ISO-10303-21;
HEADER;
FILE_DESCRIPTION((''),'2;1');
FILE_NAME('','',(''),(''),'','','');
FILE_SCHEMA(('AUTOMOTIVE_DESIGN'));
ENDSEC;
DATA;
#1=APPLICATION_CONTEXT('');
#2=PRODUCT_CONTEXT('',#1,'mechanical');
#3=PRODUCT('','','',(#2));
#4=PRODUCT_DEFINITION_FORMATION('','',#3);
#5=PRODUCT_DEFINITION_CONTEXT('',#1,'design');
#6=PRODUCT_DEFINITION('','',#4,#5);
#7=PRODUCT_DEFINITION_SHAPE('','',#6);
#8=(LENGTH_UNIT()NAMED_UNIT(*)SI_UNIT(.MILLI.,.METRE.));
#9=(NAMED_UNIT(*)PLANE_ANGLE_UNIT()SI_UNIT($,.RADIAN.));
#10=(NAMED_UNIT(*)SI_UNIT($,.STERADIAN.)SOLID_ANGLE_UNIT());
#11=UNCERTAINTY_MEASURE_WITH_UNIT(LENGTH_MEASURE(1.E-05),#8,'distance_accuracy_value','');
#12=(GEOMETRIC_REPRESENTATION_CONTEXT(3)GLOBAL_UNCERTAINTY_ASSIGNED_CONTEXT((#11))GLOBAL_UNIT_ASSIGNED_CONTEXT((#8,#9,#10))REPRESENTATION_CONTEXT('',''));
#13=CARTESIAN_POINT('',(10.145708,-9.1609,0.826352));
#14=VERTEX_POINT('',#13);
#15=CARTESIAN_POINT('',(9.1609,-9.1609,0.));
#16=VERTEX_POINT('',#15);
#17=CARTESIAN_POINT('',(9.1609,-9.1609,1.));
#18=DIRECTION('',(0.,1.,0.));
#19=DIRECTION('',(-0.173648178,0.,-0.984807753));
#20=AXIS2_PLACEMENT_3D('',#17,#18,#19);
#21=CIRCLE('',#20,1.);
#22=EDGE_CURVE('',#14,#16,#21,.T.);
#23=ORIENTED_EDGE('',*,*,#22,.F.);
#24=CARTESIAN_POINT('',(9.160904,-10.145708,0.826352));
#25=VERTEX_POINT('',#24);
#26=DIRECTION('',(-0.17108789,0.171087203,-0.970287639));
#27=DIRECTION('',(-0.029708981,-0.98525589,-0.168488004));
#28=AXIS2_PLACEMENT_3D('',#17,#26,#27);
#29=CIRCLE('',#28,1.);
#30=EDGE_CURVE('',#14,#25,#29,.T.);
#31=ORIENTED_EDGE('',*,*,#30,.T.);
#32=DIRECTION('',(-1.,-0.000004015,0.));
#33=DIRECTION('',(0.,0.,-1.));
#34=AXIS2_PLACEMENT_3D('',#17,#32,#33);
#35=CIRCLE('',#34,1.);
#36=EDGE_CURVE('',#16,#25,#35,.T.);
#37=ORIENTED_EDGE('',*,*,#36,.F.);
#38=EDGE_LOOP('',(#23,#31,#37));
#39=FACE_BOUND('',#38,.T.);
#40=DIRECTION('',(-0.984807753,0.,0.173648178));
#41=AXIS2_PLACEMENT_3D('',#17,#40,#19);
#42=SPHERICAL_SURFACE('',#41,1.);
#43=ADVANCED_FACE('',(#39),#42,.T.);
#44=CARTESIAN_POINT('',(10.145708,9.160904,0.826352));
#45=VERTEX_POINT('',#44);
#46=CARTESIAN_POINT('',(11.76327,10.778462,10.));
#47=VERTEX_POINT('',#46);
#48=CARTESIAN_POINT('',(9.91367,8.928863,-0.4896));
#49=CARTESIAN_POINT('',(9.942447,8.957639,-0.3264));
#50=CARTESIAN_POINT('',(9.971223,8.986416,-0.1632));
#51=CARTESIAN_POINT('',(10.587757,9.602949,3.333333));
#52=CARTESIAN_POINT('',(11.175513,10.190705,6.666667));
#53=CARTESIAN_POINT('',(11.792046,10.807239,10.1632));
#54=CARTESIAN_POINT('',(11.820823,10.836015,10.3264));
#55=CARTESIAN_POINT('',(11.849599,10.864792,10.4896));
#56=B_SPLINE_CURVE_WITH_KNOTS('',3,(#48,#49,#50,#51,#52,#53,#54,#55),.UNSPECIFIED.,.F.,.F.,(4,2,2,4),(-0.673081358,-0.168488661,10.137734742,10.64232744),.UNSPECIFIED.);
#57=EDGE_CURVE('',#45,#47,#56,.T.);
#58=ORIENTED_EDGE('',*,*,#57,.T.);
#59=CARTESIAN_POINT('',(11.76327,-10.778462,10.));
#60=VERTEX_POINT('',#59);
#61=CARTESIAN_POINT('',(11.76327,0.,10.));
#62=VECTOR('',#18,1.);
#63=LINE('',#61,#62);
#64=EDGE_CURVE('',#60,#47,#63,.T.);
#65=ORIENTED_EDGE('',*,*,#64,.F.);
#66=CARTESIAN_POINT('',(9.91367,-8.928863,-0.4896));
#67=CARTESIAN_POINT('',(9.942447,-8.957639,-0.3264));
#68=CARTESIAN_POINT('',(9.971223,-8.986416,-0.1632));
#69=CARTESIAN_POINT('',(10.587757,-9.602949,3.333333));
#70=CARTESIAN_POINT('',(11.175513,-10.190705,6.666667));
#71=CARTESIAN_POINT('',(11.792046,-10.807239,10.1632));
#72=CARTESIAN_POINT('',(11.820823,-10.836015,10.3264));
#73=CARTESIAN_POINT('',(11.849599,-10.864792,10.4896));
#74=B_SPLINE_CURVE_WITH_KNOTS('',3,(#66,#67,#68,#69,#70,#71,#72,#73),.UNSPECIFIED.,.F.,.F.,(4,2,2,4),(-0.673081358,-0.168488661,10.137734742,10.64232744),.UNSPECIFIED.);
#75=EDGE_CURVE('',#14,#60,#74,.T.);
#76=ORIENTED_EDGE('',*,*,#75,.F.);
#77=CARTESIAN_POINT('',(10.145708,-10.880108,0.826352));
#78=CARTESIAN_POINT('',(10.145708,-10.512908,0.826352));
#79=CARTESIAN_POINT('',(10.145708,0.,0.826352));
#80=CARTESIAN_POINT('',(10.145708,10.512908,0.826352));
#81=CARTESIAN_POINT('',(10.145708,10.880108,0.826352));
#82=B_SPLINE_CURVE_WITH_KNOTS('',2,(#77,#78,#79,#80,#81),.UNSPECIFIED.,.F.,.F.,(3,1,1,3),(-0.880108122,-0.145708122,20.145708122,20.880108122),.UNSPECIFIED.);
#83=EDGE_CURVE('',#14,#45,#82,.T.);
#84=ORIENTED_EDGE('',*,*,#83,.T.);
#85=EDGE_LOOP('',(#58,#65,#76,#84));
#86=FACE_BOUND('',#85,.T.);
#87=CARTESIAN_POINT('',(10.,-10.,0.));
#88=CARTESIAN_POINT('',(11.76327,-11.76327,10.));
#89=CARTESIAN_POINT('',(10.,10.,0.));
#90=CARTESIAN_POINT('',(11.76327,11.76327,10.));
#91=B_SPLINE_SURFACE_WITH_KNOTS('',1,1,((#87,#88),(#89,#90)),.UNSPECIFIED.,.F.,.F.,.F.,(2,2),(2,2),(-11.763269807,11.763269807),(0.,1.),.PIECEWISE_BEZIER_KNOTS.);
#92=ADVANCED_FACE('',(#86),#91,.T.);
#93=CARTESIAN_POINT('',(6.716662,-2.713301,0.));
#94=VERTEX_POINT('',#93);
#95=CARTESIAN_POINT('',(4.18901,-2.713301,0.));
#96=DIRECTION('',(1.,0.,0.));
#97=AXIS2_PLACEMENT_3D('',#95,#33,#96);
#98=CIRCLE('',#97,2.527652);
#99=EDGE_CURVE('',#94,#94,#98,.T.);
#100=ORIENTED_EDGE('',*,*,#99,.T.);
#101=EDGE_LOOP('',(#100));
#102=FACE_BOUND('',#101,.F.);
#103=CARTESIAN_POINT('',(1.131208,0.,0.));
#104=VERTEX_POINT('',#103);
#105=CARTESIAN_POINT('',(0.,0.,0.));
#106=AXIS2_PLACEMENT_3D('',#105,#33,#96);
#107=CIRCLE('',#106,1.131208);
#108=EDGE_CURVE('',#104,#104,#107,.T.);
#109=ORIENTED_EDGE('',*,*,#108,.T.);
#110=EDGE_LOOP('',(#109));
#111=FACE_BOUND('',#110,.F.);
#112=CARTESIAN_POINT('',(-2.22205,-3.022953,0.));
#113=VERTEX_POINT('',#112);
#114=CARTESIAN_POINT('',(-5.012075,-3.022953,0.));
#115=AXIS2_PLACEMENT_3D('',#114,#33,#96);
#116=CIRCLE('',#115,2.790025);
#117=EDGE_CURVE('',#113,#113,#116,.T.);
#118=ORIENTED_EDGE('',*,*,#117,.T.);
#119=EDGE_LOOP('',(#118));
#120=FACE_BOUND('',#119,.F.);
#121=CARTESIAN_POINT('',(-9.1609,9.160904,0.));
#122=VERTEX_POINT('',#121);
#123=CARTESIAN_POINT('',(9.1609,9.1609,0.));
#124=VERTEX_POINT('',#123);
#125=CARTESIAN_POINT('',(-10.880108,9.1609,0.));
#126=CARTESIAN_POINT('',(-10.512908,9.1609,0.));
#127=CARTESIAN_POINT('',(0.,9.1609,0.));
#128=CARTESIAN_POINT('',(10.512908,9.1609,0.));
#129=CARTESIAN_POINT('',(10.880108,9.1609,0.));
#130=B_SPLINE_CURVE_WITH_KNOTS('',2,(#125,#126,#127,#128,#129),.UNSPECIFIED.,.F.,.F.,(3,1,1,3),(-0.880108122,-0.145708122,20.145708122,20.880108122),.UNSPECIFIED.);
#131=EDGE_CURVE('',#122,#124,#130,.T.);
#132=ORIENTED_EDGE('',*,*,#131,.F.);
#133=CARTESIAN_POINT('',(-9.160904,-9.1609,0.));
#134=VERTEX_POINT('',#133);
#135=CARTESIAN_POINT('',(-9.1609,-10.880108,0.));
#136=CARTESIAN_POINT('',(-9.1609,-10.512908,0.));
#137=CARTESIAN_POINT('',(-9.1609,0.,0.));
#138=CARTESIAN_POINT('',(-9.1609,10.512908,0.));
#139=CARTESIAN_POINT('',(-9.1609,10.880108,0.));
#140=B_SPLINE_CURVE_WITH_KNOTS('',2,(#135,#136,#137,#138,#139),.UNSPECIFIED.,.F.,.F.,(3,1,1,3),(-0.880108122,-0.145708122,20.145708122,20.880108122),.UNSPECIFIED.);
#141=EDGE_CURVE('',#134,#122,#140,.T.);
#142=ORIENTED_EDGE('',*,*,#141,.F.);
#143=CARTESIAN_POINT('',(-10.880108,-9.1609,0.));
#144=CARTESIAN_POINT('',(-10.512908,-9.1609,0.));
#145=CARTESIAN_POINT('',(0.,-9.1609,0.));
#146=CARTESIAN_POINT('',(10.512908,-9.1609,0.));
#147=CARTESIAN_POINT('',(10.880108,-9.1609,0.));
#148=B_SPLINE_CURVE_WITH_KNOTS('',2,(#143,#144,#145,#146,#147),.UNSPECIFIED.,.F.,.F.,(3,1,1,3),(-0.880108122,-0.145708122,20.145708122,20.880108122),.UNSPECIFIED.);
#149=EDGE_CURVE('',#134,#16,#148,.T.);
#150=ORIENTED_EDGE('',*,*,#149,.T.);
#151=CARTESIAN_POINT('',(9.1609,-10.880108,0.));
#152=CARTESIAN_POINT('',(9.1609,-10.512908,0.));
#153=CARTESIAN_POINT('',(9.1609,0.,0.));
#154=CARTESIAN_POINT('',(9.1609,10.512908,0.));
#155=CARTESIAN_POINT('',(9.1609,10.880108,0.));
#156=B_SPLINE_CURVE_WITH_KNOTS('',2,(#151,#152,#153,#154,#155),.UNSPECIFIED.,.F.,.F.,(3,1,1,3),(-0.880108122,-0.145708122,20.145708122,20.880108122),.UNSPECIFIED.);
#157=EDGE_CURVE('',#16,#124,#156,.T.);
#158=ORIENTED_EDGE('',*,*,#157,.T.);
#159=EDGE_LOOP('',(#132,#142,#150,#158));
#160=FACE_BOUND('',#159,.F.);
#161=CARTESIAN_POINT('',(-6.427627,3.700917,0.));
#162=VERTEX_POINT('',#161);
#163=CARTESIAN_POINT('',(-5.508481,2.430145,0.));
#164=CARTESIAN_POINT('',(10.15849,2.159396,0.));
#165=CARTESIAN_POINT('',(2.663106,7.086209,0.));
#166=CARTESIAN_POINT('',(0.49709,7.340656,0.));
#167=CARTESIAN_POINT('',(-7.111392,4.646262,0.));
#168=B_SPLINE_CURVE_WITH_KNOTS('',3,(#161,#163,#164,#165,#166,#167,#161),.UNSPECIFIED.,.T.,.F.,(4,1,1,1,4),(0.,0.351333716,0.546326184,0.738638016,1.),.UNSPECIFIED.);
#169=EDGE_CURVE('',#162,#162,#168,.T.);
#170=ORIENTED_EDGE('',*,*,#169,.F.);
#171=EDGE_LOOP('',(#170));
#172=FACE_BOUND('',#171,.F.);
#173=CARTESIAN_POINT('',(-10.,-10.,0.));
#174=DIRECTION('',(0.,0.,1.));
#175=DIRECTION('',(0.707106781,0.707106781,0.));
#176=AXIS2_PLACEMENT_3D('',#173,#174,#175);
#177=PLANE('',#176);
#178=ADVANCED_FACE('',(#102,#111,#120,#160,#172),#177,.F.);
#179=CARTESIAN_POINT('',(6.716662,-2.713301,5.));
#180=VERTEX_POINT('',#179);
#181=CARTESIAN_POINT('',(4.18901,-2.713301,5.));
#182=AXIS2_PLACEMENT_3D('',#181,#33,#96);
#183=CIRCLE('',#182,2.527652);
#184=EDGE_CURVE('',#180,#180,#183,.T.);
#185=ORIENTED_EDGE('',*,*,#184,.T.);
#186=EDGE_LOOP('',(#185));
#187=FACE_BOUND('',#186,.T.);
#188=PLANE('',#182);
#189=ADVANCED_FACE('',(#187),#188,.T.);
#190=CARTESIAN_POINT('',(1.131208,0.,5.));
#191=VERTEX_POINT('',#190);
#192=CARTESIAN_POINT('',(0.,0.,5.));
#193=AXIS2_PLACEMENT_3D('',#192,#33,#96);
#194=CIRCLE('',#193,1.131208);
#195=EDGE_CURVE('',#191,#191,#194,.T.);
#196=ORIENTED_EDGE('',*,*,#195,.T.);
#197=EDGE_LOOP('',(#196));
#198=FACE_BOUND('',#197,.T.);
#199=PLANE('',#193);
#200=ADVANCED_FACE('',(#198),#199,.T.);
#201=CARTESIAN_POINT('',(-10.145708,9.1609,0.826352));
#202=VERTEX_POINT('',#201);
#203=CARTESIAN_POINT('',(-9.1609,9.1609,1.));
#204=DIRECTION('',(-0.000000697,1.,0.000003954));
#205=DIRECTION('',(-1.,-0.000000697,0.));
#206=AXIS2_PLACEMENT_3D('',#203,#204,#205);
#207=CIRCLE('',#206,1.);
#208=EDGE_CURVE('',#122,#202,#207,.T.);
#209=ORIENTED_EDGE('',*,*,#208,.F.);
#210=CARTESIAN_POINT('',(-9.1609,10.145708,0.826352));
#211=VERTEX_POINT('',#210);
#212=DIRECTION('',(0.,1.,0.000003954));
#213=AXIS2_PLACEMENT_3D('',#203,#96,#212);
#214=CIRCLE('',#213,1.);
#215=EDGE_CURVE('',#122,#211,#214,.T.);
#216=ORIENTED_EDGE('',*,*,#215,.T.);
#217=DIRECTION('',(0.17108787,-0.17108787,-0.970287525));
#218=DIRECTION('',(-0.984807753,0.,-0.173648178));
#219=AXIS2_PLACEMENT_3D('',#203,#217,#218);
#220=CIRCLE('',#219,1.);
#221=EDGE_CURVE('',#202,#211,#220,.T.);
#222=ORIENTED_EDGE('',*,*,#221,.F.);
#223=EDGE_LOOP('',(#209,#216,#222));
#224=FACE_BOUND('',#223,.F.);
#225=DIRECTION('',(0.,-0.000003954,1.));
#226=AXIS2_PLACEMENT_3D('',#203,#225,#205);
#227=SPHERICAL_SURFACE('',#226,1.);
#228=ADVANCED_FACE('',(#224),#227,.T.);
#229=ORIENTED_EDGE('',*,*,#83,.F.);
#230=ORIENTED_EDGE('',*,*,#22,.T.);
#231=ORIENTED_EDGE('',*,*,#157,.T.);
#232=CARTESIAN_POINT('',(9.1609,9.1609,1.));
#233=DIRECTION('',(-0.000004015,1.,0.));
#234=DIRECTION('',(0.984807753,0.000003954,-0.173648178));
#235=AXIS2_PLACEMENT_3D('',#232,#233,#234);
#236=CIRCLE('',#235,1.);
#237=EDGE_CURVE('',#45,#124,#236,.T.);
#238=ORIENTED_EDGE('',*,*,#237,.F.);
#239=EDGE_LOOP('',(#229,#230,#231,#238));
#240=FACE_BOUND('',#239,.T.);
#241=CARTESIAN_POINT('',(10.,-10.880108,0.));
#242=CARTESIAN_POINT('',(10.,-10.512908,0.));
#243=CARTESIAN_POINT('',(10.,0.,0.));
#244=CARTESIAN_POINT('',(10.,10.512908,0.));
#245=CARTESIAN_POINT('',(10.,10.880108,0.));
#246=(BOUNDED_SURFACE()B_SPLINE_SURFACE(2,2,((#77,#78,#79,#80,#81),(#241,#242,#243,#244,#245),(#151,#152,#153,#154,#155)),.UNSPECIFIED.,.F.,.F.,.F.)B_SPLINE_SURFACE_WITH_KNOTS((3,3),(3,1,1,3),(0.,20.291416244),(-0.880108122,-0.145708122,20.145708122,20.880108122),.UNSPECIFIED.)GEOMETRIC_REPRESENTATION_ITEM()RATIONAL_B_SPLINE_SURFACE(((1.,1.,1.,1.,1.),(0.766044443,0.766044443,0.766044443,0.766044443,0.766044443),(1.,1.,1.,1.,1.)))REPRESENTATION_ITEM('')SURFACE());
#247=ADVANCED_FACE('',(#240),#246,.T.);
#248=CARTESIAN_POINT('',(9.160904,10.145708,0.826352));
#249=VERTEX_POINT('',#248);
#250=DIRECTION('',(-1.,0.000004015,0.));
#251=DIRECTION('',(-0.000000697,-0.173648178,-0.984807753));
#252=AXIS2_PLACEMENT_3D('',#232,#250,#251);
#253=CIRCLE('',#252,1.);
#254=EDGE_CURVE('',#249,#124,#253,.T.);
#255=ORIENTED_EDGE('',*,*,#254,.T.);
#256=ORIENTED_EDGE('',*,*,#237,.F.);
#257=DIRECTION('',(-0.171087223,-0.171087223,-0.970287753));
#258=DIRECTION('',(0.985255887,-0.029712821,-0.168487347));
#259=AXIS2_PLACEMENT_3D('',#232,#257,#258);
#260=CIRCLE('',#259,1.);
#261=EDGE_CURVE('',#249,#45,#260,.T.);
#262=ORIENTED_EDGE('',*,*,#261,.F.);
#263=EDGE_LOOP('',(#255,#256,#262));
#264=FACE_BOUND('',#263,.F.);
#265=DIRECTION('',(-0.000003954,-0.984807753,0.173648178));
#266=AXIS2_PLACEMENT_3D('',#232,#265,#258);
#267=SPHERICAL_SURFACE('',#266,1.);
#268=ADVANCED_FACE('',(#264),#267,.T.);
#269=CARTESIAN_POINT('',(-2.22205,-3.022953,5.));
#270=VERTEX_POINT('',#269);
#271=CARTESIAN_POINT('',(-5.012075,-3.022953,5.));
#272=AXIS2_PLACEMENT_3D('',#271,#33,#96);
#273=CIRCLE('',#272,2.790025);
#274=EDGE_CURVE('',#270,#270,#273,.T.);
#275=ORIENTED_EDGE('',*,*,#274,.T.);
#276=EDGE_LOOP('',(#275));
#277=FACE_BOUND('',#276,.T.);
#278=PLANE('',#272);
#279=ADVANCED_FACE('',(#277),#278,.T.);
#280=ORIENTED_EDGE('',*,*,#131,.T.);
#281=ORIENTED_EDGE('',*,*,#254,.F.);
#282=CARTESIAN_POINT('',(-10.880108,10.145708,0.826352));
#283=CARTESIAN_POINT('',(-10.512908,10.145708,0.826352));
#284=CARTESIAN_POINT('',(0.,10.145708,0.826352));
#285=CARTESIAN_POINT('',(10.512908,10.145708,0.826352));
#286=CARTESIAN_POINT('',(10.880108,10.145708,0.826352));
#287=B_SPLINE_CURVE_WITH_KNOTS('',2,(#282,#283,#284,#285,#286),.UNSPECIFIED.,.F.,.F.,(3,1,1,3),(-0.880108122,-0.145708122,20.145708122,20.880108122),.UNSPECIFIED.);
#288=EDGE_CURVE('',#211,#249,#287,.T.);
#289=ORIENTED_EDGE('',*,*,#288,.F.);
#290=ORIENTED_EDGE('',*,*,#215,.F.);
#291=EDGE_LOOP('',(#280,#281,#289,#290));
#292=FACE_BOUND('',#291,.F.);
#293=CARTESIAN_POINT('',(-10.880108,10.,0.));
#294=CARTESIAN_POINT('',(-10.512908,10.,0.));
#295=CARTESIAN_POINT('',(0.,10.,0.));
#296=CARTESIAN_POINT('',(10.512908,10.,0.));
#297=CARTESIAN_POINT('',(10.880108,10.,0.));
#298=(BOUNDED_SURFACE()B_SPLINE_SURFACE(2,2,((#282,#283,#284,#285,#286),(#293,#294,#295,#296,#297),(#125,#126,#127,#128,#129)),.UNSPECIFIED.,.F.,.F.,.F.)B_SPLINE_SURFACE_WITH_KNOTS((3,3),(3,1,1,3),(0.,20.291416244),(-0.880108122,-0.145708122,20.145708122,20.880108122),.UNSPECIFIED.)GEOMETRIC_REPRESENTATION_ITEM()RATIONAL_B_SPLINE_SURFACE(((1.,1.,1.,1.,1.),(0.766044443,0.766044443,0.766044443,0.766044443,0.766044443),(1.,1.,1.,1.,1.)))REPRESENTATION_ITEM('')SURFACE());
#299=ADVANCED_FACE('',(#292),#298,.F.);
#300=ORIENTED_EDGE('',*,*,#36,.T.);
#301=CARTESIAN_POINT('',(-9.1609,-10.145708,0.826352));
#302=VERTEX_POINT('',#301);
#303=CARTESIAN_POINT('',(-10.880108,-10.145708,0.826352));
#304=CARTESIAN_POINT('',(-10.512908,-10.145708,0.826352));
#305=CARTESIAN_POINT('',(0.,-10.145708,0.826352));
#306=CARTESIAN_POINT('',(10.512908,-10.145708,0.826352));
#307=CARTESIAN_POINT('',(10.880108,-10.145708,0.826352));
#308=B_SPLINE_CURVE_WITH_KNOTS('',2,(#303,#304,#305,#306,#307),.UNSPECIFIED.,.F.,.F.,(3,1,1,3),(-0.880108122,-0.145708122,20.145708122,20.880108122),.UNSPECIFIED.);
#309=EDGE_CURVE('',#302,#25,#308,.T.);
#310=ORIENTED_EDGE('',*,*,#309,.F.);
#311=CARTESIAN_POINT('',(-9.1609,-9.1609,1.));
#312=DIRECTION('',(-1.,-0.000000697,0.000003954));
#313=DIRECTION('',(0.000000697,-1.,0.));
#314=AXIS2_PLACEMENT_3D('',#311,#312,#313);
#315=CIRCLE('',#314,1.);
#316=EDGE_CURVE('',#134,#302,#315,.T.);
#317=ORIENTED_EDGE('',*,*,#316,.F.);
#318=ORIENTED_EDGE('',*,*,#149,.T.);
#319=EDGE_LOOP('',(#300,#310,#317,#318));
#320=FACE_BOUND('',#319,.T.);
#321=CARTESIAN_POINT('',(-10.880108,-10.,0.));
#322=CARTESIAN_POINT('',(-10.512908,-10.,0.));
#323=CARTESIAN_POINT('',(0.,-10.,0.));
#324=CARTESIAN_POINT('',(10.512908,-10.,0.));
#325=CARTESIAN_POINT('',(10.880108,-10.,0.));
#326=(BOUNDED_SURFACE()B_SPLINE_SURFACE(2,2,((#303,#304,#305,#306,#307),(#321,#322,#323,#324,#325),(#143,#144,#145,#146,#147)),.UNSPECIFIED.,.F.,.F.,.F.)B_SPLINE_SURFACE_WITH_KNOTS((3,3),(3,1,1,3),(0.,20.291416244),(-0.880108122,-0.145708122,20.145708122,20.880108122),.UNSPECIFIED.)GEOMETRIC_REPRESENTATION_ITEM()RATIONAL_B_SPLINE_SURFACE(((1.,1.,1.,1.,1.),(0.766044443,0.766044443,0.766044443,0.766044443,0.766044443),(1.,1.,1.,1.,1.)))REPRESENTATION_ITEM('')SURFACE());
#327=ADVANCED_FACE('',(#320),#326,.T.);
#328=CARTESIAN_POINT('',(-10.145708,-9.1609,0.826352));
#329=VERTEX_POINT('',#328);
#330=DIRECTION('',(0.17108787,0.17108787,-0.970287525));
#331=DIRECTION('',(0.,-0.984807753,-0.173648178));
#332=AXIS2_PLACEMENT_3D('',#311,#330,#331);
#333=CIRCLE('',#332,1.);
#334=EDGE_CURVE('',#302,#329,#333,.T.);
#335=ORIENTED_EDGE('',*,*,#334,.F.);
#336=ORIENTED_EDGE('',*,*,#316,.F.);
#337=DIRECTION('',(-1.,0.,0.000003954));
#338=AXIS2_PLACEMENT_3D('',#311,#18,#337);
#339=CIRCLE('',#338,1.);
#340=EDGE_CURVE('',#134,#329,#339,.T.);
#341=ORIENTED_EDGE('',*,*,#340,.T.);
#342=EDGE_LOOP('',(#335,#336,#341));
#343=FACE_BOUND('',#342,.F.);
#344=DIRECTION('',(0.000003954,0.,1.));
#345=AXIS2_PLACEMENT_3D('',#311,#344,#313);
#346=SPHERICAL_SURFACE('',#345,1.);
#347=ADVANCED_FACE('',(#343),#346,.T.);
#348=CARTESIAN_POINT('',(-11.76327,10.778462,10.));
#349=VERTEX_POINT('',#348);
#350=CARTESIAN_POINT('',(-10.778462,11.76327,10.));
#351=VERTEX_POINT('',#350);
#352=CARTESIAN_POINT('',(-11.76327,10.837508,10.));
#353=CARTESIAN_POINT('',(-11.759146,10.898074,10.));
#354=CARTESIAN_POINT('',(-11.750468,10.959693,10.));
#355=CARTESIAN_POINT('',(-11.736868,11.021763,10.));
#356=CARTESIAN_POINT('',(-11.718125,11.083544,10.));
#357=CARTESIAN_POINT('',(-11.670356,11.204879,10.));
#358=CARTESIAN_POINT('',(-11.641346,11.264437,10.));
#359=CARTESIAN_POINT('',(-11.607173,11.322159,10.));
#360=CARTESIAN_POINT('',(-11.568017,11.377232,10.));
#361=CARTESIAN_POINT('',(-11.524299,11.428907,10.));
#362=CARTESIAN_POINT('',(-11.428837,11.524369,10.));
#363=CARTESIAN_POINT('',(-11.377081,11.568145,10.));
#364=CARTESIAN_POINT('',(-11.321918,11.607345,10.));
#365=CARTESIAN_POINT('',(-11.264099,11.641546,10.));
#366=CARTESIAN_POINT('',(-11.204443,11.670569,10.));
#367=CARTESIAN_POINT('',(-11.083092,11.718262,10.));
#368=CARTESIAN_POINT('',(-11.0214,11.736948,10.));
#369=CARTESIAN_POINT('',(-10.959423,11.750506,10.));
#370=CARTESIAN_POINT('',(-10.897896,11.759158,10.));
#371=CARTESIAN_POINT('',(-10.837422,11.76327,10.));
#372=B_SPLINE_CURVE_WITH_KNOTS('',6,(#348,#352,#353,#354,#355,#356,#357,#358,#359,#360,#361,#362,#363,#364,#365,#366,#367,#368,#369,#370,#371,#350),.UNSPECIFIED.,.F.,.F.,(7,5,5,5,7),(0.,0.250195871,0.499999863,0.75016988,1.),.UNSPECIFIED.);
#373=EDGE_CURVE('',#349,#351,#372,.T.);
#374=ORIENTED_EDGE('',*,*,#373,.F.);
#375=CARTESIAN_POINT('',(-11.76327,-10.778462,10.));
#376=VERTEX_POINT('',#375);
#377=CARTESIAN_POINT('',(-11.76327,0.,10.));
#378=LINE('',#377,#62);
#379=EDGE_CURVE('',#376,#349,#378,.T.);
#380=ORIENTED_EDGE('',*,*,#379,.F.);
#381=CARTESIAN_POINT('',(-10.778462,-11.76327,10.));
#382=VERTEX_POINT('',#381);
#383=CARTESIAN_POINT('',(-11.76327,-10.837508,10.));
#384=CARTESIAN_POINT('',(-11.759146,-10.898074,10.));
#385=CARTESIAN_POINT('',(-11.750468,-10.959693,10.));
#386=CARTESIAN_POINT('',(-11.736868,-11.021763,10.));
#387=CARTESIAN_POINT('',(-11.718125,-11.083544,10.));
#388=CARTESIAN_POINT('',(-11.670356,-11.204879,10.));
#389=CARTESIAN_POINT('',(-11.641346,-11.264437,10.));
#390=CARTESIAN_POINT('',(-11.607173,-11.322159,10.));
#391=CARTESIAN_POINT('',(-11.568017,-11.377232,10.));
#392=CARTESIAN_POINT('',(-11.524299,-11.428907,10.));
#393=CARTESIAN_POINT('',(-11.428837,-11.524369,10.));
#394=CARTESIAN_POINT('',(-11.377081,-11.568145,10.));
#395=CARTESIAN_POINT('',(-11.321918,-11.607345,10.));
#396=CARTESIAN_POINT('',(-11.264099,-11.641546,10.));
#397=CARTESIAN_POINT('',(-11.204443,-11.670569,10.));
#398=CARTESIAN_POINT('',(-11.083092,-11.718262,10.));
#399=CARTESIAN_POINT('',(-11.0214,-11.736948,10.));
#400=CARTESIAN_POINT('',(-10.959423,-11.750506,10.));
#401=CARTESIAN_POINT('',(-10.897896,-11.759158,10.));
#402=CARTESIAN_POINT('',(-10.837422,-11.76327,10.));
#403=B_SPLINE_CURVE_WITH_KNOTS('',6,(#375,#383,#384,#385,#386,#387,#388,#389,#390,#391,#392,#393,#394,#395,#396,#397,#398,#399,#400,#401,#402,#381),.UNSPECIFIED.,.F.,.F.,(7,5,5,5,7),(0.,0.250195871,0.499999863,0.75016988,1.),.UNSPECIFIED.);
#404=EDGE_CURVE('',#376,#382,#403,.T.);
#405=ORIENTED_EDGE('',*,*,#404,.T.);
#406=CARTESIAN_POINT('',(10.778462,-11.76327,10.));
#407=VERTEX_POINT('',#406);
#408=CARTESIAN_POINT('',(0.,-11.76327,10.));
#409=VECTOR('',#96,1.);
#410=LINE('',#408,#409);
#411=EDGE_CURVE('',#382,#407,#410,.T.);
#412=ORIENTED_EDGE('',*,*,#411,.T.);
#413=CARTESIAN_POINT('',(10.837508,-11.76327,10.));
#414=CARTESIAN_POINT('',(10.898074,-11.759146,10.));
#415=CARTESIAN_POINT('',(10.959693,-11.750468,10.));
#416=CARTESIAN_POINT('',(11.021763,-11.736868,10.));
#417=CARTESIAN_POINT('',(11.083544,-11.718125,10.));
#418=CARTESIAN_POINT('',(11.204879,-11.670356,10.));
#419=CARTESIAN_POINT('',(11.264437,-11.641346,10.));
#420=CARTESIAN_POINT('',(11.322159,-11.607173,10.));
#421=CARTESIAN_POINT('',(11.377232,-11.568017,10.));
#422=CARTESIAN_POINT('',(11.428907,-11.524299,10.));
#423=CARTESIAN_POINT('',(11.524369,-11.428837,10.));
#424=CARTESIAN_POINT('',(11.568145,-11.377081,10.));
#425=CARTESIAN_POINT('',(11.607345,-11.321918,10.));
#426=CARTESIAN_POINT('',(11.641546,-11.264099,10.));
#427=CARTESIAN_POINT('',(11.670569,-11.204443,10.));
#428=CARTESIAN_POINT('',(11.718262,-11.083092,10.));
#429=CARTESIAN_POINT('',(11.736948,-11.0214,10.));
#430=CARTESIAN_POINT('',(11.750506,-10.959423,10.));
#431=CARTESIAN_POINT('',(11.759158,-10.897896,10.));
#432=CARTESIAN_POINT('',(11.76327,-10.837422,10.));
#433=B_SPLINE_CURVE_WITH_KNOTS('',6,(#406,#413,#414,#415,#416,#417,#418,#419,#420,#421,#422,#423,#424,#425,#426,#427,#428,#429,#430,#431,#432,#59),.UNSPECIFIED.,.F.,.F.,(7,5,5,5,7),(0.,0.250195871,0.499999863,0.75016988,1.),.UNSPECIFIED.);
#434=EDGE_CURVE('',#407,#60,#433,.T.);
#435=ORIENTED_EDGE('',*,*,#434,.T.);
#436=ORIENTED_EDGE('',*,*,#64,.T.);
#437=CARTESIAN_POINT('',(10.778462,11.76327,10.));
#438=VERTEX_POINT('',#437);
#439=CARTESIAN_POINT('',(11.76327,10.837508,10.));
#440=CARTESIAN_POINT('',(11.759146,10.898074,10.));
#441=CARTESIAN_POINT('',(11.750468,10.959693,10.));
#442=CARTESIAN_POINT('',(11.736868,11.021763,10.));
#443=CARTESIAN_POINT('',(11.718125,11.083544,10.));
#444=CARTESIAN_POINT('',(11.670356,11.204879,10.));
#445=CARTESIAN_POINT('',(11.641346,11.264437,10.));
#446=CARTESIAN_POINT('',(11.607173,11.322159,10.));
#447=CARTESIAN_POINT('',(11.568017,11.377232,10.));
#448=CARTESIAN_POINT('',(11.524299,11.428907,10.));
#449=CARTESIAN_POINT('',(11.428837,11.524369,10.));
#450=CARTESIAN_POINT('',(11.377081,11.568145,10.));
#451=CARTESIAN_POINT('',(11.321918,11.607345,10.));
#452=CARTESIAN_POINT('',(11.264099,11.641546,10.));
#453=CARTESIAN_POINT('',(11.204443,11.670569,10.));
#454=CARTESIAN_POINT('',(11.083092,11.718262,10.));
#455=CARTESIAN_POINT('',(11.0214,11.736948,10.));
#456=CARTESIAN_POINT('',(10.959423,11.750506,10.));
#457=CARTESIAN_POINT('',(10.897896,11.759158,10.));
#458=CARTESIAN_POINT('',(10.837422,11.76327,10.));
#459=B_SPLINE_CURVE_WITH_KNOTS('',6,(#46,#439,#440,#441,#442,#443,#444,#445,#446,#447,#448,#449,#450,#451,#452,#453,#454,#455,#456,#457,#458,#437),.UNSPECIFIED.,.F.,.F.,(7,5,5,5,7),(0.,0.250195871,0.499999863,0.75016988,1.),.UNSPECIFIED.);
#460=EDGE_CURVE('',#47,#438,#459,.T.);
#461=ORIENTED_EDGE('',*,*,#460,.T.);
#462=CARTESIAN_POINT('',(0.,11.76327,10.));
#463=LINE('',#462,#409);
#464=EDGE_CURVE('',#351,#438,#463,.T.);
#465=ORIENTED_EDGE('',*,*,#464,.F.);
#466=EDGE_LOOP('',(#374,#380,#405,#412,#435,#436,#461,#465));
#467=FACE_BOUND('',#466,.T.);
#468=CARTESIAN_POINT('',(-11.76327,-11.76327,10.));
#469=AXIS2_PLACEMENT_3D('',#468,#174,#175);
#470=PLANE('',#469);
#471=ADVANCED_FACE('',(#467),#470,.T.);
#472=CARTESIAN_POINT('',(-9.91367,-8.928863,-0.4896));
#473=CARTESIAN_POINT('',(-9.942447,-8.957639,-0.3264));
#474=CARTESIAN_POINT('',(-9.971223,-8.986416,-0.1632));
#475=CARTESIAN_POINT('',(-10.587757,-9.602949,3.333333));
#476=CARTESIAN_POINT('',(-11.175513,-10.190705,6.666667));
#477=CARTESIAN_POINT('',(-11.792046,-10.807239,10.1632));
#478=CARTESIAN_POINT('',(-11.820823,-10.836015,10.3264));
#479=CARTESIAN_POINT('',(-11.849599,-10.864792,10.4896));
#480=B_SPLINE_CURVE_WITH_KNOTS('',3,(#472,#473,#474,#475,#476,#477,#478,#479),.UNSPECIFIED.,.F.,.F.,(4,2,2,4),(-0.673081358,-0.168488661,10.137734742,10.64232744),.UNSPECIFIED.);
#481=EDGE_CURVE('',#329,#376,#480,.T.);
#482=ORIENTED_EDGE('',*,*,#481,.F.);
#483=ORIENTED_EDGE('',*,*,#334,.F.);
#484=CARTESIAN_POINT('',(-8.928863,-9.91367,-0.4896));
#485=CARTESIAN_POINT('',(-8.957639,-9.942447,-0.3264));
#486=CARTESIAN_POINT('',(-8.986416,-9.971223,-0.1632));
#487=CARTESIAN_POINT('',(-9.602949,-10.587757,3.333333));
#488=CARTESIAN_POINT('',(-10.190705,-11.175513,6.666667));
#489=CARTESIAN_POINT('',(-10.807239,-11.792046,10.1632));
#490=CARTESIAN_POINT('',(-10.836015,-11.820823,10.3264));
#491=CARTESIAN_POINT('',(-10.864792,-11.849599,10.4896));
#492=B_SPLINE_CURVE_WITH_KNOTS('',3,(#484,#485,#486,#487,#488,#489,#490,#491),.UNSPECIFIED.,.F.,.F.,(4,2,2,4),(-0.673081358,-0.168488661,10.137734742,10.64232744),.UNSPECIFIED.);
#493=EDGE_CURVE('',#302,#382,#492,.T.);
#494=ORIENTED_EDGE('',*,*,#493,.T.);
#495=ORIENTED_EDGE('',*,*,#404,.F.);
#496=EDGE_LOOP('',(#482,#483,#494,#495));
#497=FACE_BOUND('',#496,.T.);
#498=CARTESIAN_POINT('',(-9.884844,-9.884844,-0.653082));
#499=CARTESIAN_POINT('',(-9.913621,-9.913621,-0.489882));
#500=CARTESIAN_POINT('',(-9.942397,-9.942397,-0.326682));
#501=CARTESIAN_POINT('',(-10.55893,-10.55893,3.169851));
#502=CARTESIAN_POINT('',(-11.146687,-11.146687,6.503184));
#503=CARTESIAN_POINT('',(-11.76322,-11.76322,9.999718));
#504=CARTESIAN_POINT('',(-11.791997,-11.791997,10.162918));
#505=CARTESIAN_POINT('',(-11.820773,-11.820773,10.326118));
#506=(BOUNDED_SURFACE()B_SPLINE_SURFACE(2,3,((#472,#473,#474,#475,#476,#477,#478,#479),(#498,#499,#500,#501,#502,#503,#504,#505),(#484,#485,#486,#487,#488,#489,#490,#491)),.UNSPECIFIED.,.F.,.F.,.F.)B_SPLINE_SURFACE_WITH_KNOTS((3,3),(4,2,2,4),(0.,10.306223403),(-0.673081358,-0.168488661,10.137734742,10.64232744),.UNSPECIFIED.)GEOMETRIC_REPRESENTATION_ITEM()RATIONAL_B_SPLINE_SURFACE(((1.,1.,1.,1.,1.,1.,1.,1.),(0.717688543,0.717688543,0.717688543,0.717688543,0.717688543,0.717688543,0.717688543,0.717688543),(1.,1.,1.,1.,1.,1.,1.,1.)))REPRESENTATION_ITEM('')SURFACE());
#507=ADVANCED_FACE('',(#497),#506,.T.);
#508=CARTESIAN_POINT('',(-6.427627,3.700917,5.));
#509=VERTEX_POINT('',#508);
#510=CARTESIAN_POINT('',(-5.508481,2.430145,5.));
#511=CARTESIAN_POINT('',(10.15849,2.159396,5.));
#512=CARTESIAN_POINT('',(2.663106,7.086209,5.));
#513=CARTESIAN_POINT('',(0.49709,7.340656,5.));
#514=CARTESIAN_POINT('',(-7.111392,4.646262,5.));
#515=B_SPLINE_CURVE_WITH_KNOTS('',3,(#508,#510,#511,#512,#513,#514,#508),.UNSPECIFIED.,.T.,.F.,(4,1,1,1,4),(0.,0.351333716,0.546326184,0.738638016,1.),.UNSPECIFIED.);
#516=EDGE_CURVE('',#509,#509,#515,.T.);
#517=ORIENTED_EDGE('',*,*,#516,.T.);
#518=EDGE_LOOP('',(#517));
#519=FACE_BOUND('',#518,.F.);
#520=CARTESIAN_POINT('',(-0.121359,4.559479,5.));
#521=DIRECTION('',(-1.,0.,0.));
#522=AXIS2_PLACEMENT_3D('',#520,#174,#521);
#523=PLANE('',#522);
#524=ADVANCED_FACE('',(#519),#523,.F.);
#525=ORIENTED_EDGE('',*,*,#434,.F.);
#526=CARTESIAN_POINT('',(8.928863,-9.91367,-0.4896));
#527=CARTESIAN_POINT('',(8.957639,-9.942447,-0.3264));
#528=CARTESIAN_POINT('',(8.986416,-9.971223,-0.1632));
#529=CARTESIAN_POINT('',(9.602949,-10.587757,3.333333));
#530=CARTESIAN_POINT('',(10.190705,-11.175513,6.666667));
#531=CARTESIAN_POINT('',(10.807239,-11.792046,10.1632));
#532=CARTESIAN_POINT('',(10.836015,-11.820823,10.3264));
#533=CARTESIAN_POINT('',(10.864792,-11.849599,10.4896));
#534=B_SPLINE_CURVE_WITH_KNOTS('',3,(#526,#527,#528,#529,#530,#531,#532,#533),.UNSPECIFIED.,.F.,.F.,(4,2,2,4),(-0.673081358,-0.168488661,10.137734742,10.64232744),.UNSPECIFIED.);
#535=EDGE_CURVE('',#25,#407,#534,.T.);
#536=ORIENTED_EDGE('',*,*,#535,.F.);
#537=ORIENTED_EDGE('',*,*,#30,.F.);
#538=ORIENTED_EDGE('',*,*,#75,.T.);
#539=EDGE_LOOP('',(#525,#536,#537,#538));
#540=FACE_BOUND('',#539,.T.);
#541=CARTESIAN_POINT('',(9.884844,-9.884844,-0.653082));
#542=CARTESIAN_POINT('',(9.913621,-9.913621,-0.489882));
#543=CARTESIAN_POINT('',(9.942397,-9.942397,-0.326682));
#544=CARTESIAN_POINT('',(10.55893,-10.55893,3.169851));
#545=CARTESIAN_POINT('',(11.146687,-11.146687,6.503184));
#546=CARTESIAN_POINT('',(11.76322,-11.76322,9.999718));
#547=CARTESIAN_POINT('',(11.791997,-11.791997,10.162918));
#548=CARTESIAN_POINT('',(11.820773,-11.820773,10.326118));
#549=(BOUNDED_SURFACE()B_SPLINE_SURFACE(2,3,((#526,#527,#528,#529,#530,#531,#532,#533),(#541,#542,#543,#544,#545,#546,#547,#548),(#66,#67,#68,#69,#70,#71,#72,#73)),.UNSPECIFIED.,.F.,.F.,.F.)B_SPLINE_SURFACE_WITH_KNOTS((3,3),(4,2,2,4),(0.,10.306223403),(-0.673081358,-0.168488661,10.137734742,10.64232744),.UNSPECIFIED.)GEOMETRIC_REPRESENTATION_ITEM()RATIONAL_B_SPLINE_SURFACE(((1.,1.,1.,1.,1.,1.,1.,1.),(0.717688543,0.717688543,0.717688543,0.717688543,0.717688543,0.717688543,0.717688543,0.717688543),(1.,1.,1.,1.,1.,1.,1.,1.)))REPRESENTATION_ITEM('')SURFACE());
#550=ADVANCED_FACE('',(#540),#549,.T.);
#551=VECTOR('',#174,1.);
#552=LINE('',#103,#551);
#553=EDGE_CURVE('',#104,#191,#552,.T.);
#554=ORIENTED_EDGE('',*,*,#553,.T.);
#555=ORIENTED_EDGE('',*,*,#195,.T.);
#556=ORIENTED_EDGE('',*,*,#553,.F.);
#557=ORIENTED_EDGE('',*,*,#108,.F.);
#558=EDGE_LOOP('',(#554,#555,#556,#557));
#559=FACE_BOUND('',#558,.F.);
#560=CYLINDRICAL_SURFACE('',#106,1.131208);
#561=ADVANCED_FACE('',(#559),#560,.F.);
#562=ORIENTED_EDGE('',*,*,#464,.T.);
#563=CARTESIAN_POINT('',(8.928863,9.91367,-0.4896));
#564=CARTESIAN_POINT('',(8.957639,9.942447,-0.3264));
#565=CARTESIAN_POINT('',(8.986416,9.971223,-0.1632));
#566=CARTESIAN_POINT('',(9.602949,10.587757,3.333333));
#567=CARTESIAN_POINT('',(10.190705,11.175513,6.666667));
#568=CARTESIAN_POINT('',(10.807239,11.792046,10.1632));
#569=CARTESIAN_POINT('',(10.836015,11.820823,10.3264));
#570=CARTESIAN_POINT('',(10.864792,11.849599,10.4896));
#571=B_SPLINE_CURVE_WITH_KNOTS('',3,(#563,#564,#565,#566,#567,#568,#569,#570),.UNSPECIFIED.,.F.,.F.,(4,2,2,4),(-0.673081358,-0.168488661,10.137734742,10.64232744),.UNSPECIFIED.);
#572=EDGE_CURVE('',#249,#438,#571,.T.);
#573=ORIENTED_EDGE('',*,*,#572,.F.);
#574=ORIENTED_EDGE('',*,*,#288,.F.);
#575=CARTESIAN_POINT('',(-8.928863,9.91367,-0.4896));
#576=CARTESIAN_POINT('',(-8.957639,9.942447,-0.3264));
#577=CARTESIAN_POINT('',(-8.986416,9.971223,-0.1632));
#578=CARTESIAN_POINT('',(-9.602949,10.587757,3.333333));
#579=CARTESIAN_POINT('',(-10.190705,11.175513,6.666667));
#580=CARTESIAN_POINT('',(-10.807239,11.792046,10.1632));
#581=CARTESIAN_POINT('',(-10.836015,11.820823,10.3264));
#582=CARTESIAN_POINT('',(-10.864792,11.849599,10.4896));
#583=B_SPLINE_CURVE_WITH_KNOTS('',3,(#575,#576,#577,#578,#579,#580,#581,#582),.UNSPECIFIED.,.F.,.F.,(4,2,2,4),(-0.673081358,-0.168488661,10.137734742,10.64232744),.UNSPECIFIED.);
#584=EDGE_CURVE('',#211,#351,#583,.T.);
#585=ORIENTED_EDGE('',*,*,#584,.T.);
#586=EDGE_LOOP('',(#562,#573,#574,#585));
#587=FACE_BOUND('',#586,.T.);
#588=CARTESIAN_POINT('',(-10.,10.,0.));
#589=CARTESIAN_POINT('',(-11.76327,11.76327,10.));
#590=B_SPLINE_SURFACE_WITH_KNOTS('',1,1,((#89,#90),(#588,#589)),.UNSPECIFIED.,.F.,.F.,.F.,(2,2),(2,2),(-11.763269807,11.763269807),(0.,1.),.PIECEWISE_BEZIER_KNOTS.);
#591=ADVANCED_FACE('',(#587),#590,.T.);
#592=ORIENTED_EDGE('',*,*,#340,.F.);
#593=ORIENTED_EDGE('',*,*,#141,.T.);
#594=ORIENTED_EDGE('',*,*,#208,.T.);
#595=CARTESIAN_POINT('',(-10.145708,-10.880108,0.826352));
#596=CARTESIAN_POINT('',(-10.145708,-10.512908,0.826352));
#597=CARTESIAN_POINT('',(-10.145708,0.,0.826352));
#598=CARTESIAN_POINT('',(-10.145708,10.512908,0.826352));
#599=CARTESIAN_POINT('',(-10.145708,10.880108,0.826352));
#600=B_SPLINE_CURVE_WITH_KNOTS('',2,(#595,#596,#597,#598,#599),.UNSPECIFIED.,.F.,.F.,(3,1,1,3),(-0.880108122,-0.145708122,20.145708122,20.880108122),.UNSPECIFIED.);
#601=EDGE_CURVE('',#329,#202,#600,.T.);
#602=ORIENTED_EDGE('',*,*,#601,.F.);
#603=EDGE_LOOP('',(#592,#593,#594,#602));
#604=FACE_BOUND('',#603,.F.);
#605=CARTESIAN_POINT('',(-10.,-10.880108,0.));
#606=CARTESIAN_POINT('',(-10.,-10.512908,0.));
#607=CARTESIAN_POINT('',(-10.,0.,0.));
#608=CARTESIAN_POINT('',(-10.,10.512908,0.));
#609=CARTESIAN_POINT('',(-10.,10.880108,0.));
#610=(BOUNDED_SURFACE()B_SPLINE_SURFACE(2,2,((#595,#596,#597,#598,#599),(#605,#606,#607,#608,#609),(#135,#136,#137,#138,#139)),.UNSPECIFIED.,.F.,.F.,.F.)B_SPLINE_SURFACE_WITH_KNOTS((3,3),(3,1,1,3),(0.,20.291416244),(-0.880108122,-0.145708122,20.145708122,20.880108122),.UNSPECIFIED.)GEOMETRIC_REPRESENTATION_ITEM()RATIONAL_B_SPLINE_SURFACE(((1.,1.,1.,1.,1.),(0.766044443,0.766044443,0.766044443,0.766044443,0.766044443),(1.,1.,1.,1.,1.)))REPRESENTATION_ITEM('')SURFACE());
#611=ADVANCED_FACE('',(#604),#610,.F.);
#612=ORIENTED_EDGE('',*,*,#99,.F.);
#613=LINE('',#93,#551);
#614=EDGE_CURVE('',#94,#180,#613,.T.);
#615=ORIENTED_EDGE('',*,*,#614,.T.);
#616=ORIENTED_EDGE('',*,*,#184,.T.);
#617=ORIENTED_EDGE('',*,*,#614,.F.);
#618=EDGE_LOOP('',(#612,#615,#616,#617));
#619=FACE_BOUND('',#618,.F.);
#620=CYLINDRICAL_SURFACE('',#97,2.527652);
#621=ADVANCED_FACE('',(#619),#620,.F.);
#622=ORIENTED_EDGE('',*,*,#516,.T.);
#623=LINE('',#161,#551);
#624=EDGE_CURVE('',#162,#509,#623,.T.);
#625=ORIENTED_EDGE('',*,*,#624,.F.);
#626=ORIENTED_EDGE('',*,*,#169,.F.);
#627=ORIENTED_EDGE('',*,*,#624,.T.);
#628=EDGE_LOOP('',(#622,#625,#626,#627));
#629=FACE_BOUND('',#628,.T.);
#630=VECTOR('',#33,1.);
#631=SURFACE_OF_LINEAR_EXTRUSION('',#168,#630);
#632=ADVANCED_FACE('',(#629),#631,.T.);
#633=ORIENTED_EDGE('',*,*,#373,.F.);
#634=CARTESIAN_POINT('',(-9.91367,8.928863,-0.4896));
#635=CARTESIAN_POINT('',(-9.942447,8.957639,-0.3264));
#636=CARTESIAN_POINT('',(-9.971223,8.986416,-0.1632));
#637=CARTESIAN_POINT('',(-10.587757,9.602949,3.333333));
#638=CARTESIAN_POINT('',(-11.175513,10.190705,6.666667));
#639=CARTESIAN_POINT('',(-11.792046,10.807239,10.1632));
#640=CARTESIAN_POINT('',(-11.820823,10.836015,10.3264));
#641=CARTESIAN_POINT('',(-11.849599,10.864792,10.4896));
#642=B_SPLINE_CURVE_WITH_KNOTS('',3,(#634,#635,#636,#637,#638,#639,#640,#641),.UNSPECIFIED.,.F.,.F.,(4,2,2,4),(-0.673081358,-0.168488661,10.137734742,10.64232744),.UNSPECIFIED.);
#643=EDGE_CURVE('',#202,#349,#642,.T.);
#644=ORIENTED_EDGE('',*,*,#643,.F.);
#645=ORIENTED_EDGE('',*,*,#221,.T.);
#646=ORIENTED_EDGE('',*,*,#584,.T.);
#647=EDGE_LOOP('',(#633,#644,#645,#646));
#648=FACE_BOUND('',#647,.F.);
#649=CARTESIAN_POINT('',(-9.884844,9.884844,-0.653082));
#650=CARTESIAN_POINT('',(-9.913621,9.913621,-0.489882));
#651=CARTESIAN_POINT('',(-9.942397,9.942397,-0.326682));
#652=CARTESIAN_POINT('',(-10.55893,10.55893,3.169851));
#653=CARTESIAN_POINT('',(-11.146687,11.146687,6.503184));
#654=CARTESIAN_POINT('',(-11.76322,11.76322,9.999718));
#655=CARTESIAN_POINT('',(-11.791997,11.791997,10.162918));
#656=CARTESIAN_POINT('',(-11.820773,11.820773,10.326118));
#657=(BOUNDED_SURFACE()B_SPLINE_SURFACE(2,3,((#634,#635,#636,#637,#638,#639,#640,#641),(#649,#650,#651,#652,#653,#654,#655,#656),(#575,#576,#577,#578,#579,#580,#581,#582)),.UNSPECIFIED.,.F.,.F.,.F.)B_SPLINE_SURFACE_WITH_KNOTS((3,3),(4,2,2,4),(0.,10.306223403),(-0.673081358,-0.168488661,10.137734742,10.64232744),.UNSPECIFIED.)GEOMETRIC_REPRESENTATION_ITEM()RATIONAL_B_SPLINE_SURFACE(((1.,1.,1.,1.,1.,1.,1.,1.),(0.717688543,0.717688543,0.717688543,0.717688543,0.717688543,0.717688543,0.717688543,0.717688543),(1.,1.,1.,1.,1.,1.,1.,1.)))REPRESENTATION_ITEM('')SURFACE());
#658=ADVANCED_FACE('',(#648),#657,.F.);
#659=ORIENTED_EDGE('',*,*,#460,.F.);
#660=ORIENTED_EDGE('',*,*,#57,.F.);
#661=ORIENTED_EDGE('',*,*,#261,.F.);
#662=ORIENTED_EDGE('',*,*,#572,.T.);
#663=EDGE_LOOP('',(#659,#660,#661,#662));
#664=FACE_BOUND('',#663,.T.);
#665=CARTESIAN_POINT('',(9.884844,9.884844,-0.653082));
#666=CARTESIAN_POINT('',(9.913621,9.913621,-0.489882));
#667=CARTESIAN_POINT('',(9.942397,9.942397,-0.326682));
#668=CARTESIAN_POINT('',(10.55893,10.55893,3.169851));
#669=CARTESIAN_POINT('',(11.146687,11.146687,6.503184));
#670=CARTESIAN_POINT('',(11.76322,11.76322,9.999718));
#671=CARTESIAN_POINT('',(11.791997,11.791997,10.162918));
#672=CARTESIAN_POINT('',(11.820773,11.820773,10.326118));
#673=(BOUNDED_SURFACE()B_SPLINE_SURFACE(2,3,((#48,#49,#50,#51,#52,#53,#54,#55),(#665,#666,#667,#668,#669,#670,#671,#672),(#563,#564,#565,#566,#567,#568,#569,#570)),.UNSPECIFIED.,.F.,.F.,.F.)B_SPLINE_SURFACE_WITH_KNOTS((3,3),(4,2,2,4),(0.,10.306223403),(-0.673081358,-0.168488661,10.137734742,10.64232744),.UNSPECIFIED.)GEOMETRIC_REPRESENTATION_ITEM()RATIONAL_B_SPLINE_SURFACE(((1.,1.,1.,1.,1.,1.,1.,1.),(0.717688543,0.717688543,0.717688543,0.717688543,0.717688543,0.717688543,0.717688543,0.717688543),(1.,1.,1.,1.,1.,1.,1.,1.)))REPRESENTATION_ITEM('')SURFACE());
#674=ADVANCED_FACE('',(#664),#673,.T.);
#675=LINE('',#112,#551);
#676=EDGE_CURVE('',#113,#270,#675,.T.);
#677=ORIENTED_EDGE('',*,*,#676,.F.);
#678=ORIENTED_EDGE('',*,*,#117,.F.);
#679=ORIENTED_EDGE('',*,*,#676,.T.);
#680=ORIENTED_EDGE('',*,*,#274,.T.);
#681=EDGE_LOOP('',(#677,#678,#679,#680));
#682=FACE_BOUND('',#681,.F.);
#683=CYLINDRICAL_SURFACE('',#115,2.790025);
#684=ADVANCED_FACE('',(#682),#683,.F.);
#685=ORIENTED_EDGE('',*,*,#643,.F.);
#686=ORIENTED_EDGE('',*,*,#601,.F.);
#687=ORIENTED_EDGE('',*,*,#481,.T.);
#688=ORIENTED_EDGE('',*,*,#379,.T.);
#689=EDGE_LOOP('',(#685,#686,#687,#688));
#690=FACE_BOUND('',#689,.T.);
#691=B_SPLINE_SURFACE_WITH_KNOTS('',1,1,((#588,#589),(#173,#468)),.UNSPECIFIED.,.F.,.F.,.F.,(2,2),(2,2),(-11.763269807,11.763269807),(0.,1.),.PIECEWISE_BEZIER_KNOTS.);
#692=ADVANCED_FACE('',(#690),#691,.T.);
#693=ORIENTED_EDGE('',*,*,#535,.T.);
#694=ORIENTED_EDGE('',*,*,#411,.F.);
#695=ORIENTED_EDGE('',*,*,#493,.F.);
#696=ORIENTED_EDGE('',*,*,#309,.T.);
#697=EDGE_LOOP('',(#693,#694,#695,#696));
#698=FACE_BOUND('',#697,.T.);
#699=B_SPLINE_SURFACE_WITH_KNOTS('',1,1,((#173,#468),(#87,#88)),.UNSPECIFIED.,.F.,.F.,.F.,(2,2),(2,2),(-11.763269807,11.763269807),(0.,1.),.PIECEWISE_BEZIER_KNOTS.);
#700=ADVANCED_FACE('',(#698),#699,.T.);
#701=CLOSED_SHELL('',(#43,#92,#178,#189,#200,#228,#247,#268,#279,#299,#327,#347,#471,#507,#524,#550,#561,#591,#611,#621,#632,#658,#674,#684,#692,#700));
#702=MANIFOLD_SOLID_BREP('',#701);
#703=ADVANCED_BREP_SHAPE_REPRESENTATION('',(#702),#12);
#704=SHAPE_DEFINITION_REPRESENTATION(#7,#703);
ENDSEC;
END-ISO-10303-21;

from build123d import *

# Parameters (mm, degrees)
F0_W     = 20
F0_H     = 20
F1_DEPTH = 10
F1_TAPER = -10
F2_R     = 1
F3_R     = 2.7900254732
F3_R_2   = 2.5276520244
F5_DEPTH = 5
F6_R     = 1.1312080983
F6_R_2   = 0.8112646033
F7_DEPTH = 5
F8_DEPTH = 5
F9_DEPTH = 5


with BuildPart() as f1:
    # F0 (on Top) → F1 (new body)
    with BuildSketch(Plane.XY):
        Rectangle(F0_W, F0_H)
    extrude(amount=F1_DEPTH, taper=F1_TAPER)

    # F2
    f2_edges = [f1.edges().sort_by_distance(p)[0] for p in [
        (-10.881635, -10.881635, 5),
        (0, -10, 0),
        (10, 0, 0),
        (10.881635, -10.881635, 5),
        (10.881635, 10.881635, 5),
        (-10.881635, 10.881635, 5),
        (-10, 0, 0),
        (0, 10, 0),
    ]]
    fillet(f2_edges, radius=F2_R)

    # F3 (on face) → F5 (cut)
    with BuildSketch(Plane(origin=(0, 0, 0), x_dir=(1, 0, 0), z_dir=(0, 0, -1))):
        with Locations((-5.0120754167, 3.0229531694)):
            Circle(F3_R)
        with Locations((4.1890102439, 2.713301219)):
            Circle(F3_R_2)
    extrude(amount=-F5_DEPTH, mode=Mode.SUBTRACT)

    # F6 (on face) → F7 (cut)
    with BuildSketch(Plane(origin=(0, 0, 0), x_dir=(1, 0, 0), z_dir=(0, 0, -1))):
        Circle(F6_R)
        Circle(F6_R_2, mode=Mode.SUBTRACT)
    extrude(amount=-F7_DEPTH, mode=Mode.SUBTRACT)

    # F4 (on face) → F8 (cut)
    with BuildSketch(Plane(origin=(0, 0, 0), x_dir=(1, 0, 0), z_dir=(0, 0, -1))):
        with BuildLine():
            add(Edge.make_bspline(
                [(-6.4276270568, -3.7009168882), (-5.5084811908, -2.4301449225), (10.1584902455, -2.1593959712), (2.6631057642, -7.0862087042), (0.4970899152, -7.340655867), (-7.1113923099, -4.6462616335), (-6.4276270568, -3.7009168882)],
                knots=[0, 0, 0, 0, 0.3513337162, 0.546326184, 0.7386380158, 1, 1, 1, 1], degree=3))
        make_face()
    extrude(amount=-F8_DEPTH, mode=Mode.SUBTRACT)

    # F9 (cut): a face of the model
    f9_faces = [f1.faces().sort_by_distance(p)[0] for p in [
        (0, 0, 0),
    ]]
    extrude(f9_faces, amount=-F9_DEPTH, mode=Mode.SUBTRACT)


solid = f1.part
